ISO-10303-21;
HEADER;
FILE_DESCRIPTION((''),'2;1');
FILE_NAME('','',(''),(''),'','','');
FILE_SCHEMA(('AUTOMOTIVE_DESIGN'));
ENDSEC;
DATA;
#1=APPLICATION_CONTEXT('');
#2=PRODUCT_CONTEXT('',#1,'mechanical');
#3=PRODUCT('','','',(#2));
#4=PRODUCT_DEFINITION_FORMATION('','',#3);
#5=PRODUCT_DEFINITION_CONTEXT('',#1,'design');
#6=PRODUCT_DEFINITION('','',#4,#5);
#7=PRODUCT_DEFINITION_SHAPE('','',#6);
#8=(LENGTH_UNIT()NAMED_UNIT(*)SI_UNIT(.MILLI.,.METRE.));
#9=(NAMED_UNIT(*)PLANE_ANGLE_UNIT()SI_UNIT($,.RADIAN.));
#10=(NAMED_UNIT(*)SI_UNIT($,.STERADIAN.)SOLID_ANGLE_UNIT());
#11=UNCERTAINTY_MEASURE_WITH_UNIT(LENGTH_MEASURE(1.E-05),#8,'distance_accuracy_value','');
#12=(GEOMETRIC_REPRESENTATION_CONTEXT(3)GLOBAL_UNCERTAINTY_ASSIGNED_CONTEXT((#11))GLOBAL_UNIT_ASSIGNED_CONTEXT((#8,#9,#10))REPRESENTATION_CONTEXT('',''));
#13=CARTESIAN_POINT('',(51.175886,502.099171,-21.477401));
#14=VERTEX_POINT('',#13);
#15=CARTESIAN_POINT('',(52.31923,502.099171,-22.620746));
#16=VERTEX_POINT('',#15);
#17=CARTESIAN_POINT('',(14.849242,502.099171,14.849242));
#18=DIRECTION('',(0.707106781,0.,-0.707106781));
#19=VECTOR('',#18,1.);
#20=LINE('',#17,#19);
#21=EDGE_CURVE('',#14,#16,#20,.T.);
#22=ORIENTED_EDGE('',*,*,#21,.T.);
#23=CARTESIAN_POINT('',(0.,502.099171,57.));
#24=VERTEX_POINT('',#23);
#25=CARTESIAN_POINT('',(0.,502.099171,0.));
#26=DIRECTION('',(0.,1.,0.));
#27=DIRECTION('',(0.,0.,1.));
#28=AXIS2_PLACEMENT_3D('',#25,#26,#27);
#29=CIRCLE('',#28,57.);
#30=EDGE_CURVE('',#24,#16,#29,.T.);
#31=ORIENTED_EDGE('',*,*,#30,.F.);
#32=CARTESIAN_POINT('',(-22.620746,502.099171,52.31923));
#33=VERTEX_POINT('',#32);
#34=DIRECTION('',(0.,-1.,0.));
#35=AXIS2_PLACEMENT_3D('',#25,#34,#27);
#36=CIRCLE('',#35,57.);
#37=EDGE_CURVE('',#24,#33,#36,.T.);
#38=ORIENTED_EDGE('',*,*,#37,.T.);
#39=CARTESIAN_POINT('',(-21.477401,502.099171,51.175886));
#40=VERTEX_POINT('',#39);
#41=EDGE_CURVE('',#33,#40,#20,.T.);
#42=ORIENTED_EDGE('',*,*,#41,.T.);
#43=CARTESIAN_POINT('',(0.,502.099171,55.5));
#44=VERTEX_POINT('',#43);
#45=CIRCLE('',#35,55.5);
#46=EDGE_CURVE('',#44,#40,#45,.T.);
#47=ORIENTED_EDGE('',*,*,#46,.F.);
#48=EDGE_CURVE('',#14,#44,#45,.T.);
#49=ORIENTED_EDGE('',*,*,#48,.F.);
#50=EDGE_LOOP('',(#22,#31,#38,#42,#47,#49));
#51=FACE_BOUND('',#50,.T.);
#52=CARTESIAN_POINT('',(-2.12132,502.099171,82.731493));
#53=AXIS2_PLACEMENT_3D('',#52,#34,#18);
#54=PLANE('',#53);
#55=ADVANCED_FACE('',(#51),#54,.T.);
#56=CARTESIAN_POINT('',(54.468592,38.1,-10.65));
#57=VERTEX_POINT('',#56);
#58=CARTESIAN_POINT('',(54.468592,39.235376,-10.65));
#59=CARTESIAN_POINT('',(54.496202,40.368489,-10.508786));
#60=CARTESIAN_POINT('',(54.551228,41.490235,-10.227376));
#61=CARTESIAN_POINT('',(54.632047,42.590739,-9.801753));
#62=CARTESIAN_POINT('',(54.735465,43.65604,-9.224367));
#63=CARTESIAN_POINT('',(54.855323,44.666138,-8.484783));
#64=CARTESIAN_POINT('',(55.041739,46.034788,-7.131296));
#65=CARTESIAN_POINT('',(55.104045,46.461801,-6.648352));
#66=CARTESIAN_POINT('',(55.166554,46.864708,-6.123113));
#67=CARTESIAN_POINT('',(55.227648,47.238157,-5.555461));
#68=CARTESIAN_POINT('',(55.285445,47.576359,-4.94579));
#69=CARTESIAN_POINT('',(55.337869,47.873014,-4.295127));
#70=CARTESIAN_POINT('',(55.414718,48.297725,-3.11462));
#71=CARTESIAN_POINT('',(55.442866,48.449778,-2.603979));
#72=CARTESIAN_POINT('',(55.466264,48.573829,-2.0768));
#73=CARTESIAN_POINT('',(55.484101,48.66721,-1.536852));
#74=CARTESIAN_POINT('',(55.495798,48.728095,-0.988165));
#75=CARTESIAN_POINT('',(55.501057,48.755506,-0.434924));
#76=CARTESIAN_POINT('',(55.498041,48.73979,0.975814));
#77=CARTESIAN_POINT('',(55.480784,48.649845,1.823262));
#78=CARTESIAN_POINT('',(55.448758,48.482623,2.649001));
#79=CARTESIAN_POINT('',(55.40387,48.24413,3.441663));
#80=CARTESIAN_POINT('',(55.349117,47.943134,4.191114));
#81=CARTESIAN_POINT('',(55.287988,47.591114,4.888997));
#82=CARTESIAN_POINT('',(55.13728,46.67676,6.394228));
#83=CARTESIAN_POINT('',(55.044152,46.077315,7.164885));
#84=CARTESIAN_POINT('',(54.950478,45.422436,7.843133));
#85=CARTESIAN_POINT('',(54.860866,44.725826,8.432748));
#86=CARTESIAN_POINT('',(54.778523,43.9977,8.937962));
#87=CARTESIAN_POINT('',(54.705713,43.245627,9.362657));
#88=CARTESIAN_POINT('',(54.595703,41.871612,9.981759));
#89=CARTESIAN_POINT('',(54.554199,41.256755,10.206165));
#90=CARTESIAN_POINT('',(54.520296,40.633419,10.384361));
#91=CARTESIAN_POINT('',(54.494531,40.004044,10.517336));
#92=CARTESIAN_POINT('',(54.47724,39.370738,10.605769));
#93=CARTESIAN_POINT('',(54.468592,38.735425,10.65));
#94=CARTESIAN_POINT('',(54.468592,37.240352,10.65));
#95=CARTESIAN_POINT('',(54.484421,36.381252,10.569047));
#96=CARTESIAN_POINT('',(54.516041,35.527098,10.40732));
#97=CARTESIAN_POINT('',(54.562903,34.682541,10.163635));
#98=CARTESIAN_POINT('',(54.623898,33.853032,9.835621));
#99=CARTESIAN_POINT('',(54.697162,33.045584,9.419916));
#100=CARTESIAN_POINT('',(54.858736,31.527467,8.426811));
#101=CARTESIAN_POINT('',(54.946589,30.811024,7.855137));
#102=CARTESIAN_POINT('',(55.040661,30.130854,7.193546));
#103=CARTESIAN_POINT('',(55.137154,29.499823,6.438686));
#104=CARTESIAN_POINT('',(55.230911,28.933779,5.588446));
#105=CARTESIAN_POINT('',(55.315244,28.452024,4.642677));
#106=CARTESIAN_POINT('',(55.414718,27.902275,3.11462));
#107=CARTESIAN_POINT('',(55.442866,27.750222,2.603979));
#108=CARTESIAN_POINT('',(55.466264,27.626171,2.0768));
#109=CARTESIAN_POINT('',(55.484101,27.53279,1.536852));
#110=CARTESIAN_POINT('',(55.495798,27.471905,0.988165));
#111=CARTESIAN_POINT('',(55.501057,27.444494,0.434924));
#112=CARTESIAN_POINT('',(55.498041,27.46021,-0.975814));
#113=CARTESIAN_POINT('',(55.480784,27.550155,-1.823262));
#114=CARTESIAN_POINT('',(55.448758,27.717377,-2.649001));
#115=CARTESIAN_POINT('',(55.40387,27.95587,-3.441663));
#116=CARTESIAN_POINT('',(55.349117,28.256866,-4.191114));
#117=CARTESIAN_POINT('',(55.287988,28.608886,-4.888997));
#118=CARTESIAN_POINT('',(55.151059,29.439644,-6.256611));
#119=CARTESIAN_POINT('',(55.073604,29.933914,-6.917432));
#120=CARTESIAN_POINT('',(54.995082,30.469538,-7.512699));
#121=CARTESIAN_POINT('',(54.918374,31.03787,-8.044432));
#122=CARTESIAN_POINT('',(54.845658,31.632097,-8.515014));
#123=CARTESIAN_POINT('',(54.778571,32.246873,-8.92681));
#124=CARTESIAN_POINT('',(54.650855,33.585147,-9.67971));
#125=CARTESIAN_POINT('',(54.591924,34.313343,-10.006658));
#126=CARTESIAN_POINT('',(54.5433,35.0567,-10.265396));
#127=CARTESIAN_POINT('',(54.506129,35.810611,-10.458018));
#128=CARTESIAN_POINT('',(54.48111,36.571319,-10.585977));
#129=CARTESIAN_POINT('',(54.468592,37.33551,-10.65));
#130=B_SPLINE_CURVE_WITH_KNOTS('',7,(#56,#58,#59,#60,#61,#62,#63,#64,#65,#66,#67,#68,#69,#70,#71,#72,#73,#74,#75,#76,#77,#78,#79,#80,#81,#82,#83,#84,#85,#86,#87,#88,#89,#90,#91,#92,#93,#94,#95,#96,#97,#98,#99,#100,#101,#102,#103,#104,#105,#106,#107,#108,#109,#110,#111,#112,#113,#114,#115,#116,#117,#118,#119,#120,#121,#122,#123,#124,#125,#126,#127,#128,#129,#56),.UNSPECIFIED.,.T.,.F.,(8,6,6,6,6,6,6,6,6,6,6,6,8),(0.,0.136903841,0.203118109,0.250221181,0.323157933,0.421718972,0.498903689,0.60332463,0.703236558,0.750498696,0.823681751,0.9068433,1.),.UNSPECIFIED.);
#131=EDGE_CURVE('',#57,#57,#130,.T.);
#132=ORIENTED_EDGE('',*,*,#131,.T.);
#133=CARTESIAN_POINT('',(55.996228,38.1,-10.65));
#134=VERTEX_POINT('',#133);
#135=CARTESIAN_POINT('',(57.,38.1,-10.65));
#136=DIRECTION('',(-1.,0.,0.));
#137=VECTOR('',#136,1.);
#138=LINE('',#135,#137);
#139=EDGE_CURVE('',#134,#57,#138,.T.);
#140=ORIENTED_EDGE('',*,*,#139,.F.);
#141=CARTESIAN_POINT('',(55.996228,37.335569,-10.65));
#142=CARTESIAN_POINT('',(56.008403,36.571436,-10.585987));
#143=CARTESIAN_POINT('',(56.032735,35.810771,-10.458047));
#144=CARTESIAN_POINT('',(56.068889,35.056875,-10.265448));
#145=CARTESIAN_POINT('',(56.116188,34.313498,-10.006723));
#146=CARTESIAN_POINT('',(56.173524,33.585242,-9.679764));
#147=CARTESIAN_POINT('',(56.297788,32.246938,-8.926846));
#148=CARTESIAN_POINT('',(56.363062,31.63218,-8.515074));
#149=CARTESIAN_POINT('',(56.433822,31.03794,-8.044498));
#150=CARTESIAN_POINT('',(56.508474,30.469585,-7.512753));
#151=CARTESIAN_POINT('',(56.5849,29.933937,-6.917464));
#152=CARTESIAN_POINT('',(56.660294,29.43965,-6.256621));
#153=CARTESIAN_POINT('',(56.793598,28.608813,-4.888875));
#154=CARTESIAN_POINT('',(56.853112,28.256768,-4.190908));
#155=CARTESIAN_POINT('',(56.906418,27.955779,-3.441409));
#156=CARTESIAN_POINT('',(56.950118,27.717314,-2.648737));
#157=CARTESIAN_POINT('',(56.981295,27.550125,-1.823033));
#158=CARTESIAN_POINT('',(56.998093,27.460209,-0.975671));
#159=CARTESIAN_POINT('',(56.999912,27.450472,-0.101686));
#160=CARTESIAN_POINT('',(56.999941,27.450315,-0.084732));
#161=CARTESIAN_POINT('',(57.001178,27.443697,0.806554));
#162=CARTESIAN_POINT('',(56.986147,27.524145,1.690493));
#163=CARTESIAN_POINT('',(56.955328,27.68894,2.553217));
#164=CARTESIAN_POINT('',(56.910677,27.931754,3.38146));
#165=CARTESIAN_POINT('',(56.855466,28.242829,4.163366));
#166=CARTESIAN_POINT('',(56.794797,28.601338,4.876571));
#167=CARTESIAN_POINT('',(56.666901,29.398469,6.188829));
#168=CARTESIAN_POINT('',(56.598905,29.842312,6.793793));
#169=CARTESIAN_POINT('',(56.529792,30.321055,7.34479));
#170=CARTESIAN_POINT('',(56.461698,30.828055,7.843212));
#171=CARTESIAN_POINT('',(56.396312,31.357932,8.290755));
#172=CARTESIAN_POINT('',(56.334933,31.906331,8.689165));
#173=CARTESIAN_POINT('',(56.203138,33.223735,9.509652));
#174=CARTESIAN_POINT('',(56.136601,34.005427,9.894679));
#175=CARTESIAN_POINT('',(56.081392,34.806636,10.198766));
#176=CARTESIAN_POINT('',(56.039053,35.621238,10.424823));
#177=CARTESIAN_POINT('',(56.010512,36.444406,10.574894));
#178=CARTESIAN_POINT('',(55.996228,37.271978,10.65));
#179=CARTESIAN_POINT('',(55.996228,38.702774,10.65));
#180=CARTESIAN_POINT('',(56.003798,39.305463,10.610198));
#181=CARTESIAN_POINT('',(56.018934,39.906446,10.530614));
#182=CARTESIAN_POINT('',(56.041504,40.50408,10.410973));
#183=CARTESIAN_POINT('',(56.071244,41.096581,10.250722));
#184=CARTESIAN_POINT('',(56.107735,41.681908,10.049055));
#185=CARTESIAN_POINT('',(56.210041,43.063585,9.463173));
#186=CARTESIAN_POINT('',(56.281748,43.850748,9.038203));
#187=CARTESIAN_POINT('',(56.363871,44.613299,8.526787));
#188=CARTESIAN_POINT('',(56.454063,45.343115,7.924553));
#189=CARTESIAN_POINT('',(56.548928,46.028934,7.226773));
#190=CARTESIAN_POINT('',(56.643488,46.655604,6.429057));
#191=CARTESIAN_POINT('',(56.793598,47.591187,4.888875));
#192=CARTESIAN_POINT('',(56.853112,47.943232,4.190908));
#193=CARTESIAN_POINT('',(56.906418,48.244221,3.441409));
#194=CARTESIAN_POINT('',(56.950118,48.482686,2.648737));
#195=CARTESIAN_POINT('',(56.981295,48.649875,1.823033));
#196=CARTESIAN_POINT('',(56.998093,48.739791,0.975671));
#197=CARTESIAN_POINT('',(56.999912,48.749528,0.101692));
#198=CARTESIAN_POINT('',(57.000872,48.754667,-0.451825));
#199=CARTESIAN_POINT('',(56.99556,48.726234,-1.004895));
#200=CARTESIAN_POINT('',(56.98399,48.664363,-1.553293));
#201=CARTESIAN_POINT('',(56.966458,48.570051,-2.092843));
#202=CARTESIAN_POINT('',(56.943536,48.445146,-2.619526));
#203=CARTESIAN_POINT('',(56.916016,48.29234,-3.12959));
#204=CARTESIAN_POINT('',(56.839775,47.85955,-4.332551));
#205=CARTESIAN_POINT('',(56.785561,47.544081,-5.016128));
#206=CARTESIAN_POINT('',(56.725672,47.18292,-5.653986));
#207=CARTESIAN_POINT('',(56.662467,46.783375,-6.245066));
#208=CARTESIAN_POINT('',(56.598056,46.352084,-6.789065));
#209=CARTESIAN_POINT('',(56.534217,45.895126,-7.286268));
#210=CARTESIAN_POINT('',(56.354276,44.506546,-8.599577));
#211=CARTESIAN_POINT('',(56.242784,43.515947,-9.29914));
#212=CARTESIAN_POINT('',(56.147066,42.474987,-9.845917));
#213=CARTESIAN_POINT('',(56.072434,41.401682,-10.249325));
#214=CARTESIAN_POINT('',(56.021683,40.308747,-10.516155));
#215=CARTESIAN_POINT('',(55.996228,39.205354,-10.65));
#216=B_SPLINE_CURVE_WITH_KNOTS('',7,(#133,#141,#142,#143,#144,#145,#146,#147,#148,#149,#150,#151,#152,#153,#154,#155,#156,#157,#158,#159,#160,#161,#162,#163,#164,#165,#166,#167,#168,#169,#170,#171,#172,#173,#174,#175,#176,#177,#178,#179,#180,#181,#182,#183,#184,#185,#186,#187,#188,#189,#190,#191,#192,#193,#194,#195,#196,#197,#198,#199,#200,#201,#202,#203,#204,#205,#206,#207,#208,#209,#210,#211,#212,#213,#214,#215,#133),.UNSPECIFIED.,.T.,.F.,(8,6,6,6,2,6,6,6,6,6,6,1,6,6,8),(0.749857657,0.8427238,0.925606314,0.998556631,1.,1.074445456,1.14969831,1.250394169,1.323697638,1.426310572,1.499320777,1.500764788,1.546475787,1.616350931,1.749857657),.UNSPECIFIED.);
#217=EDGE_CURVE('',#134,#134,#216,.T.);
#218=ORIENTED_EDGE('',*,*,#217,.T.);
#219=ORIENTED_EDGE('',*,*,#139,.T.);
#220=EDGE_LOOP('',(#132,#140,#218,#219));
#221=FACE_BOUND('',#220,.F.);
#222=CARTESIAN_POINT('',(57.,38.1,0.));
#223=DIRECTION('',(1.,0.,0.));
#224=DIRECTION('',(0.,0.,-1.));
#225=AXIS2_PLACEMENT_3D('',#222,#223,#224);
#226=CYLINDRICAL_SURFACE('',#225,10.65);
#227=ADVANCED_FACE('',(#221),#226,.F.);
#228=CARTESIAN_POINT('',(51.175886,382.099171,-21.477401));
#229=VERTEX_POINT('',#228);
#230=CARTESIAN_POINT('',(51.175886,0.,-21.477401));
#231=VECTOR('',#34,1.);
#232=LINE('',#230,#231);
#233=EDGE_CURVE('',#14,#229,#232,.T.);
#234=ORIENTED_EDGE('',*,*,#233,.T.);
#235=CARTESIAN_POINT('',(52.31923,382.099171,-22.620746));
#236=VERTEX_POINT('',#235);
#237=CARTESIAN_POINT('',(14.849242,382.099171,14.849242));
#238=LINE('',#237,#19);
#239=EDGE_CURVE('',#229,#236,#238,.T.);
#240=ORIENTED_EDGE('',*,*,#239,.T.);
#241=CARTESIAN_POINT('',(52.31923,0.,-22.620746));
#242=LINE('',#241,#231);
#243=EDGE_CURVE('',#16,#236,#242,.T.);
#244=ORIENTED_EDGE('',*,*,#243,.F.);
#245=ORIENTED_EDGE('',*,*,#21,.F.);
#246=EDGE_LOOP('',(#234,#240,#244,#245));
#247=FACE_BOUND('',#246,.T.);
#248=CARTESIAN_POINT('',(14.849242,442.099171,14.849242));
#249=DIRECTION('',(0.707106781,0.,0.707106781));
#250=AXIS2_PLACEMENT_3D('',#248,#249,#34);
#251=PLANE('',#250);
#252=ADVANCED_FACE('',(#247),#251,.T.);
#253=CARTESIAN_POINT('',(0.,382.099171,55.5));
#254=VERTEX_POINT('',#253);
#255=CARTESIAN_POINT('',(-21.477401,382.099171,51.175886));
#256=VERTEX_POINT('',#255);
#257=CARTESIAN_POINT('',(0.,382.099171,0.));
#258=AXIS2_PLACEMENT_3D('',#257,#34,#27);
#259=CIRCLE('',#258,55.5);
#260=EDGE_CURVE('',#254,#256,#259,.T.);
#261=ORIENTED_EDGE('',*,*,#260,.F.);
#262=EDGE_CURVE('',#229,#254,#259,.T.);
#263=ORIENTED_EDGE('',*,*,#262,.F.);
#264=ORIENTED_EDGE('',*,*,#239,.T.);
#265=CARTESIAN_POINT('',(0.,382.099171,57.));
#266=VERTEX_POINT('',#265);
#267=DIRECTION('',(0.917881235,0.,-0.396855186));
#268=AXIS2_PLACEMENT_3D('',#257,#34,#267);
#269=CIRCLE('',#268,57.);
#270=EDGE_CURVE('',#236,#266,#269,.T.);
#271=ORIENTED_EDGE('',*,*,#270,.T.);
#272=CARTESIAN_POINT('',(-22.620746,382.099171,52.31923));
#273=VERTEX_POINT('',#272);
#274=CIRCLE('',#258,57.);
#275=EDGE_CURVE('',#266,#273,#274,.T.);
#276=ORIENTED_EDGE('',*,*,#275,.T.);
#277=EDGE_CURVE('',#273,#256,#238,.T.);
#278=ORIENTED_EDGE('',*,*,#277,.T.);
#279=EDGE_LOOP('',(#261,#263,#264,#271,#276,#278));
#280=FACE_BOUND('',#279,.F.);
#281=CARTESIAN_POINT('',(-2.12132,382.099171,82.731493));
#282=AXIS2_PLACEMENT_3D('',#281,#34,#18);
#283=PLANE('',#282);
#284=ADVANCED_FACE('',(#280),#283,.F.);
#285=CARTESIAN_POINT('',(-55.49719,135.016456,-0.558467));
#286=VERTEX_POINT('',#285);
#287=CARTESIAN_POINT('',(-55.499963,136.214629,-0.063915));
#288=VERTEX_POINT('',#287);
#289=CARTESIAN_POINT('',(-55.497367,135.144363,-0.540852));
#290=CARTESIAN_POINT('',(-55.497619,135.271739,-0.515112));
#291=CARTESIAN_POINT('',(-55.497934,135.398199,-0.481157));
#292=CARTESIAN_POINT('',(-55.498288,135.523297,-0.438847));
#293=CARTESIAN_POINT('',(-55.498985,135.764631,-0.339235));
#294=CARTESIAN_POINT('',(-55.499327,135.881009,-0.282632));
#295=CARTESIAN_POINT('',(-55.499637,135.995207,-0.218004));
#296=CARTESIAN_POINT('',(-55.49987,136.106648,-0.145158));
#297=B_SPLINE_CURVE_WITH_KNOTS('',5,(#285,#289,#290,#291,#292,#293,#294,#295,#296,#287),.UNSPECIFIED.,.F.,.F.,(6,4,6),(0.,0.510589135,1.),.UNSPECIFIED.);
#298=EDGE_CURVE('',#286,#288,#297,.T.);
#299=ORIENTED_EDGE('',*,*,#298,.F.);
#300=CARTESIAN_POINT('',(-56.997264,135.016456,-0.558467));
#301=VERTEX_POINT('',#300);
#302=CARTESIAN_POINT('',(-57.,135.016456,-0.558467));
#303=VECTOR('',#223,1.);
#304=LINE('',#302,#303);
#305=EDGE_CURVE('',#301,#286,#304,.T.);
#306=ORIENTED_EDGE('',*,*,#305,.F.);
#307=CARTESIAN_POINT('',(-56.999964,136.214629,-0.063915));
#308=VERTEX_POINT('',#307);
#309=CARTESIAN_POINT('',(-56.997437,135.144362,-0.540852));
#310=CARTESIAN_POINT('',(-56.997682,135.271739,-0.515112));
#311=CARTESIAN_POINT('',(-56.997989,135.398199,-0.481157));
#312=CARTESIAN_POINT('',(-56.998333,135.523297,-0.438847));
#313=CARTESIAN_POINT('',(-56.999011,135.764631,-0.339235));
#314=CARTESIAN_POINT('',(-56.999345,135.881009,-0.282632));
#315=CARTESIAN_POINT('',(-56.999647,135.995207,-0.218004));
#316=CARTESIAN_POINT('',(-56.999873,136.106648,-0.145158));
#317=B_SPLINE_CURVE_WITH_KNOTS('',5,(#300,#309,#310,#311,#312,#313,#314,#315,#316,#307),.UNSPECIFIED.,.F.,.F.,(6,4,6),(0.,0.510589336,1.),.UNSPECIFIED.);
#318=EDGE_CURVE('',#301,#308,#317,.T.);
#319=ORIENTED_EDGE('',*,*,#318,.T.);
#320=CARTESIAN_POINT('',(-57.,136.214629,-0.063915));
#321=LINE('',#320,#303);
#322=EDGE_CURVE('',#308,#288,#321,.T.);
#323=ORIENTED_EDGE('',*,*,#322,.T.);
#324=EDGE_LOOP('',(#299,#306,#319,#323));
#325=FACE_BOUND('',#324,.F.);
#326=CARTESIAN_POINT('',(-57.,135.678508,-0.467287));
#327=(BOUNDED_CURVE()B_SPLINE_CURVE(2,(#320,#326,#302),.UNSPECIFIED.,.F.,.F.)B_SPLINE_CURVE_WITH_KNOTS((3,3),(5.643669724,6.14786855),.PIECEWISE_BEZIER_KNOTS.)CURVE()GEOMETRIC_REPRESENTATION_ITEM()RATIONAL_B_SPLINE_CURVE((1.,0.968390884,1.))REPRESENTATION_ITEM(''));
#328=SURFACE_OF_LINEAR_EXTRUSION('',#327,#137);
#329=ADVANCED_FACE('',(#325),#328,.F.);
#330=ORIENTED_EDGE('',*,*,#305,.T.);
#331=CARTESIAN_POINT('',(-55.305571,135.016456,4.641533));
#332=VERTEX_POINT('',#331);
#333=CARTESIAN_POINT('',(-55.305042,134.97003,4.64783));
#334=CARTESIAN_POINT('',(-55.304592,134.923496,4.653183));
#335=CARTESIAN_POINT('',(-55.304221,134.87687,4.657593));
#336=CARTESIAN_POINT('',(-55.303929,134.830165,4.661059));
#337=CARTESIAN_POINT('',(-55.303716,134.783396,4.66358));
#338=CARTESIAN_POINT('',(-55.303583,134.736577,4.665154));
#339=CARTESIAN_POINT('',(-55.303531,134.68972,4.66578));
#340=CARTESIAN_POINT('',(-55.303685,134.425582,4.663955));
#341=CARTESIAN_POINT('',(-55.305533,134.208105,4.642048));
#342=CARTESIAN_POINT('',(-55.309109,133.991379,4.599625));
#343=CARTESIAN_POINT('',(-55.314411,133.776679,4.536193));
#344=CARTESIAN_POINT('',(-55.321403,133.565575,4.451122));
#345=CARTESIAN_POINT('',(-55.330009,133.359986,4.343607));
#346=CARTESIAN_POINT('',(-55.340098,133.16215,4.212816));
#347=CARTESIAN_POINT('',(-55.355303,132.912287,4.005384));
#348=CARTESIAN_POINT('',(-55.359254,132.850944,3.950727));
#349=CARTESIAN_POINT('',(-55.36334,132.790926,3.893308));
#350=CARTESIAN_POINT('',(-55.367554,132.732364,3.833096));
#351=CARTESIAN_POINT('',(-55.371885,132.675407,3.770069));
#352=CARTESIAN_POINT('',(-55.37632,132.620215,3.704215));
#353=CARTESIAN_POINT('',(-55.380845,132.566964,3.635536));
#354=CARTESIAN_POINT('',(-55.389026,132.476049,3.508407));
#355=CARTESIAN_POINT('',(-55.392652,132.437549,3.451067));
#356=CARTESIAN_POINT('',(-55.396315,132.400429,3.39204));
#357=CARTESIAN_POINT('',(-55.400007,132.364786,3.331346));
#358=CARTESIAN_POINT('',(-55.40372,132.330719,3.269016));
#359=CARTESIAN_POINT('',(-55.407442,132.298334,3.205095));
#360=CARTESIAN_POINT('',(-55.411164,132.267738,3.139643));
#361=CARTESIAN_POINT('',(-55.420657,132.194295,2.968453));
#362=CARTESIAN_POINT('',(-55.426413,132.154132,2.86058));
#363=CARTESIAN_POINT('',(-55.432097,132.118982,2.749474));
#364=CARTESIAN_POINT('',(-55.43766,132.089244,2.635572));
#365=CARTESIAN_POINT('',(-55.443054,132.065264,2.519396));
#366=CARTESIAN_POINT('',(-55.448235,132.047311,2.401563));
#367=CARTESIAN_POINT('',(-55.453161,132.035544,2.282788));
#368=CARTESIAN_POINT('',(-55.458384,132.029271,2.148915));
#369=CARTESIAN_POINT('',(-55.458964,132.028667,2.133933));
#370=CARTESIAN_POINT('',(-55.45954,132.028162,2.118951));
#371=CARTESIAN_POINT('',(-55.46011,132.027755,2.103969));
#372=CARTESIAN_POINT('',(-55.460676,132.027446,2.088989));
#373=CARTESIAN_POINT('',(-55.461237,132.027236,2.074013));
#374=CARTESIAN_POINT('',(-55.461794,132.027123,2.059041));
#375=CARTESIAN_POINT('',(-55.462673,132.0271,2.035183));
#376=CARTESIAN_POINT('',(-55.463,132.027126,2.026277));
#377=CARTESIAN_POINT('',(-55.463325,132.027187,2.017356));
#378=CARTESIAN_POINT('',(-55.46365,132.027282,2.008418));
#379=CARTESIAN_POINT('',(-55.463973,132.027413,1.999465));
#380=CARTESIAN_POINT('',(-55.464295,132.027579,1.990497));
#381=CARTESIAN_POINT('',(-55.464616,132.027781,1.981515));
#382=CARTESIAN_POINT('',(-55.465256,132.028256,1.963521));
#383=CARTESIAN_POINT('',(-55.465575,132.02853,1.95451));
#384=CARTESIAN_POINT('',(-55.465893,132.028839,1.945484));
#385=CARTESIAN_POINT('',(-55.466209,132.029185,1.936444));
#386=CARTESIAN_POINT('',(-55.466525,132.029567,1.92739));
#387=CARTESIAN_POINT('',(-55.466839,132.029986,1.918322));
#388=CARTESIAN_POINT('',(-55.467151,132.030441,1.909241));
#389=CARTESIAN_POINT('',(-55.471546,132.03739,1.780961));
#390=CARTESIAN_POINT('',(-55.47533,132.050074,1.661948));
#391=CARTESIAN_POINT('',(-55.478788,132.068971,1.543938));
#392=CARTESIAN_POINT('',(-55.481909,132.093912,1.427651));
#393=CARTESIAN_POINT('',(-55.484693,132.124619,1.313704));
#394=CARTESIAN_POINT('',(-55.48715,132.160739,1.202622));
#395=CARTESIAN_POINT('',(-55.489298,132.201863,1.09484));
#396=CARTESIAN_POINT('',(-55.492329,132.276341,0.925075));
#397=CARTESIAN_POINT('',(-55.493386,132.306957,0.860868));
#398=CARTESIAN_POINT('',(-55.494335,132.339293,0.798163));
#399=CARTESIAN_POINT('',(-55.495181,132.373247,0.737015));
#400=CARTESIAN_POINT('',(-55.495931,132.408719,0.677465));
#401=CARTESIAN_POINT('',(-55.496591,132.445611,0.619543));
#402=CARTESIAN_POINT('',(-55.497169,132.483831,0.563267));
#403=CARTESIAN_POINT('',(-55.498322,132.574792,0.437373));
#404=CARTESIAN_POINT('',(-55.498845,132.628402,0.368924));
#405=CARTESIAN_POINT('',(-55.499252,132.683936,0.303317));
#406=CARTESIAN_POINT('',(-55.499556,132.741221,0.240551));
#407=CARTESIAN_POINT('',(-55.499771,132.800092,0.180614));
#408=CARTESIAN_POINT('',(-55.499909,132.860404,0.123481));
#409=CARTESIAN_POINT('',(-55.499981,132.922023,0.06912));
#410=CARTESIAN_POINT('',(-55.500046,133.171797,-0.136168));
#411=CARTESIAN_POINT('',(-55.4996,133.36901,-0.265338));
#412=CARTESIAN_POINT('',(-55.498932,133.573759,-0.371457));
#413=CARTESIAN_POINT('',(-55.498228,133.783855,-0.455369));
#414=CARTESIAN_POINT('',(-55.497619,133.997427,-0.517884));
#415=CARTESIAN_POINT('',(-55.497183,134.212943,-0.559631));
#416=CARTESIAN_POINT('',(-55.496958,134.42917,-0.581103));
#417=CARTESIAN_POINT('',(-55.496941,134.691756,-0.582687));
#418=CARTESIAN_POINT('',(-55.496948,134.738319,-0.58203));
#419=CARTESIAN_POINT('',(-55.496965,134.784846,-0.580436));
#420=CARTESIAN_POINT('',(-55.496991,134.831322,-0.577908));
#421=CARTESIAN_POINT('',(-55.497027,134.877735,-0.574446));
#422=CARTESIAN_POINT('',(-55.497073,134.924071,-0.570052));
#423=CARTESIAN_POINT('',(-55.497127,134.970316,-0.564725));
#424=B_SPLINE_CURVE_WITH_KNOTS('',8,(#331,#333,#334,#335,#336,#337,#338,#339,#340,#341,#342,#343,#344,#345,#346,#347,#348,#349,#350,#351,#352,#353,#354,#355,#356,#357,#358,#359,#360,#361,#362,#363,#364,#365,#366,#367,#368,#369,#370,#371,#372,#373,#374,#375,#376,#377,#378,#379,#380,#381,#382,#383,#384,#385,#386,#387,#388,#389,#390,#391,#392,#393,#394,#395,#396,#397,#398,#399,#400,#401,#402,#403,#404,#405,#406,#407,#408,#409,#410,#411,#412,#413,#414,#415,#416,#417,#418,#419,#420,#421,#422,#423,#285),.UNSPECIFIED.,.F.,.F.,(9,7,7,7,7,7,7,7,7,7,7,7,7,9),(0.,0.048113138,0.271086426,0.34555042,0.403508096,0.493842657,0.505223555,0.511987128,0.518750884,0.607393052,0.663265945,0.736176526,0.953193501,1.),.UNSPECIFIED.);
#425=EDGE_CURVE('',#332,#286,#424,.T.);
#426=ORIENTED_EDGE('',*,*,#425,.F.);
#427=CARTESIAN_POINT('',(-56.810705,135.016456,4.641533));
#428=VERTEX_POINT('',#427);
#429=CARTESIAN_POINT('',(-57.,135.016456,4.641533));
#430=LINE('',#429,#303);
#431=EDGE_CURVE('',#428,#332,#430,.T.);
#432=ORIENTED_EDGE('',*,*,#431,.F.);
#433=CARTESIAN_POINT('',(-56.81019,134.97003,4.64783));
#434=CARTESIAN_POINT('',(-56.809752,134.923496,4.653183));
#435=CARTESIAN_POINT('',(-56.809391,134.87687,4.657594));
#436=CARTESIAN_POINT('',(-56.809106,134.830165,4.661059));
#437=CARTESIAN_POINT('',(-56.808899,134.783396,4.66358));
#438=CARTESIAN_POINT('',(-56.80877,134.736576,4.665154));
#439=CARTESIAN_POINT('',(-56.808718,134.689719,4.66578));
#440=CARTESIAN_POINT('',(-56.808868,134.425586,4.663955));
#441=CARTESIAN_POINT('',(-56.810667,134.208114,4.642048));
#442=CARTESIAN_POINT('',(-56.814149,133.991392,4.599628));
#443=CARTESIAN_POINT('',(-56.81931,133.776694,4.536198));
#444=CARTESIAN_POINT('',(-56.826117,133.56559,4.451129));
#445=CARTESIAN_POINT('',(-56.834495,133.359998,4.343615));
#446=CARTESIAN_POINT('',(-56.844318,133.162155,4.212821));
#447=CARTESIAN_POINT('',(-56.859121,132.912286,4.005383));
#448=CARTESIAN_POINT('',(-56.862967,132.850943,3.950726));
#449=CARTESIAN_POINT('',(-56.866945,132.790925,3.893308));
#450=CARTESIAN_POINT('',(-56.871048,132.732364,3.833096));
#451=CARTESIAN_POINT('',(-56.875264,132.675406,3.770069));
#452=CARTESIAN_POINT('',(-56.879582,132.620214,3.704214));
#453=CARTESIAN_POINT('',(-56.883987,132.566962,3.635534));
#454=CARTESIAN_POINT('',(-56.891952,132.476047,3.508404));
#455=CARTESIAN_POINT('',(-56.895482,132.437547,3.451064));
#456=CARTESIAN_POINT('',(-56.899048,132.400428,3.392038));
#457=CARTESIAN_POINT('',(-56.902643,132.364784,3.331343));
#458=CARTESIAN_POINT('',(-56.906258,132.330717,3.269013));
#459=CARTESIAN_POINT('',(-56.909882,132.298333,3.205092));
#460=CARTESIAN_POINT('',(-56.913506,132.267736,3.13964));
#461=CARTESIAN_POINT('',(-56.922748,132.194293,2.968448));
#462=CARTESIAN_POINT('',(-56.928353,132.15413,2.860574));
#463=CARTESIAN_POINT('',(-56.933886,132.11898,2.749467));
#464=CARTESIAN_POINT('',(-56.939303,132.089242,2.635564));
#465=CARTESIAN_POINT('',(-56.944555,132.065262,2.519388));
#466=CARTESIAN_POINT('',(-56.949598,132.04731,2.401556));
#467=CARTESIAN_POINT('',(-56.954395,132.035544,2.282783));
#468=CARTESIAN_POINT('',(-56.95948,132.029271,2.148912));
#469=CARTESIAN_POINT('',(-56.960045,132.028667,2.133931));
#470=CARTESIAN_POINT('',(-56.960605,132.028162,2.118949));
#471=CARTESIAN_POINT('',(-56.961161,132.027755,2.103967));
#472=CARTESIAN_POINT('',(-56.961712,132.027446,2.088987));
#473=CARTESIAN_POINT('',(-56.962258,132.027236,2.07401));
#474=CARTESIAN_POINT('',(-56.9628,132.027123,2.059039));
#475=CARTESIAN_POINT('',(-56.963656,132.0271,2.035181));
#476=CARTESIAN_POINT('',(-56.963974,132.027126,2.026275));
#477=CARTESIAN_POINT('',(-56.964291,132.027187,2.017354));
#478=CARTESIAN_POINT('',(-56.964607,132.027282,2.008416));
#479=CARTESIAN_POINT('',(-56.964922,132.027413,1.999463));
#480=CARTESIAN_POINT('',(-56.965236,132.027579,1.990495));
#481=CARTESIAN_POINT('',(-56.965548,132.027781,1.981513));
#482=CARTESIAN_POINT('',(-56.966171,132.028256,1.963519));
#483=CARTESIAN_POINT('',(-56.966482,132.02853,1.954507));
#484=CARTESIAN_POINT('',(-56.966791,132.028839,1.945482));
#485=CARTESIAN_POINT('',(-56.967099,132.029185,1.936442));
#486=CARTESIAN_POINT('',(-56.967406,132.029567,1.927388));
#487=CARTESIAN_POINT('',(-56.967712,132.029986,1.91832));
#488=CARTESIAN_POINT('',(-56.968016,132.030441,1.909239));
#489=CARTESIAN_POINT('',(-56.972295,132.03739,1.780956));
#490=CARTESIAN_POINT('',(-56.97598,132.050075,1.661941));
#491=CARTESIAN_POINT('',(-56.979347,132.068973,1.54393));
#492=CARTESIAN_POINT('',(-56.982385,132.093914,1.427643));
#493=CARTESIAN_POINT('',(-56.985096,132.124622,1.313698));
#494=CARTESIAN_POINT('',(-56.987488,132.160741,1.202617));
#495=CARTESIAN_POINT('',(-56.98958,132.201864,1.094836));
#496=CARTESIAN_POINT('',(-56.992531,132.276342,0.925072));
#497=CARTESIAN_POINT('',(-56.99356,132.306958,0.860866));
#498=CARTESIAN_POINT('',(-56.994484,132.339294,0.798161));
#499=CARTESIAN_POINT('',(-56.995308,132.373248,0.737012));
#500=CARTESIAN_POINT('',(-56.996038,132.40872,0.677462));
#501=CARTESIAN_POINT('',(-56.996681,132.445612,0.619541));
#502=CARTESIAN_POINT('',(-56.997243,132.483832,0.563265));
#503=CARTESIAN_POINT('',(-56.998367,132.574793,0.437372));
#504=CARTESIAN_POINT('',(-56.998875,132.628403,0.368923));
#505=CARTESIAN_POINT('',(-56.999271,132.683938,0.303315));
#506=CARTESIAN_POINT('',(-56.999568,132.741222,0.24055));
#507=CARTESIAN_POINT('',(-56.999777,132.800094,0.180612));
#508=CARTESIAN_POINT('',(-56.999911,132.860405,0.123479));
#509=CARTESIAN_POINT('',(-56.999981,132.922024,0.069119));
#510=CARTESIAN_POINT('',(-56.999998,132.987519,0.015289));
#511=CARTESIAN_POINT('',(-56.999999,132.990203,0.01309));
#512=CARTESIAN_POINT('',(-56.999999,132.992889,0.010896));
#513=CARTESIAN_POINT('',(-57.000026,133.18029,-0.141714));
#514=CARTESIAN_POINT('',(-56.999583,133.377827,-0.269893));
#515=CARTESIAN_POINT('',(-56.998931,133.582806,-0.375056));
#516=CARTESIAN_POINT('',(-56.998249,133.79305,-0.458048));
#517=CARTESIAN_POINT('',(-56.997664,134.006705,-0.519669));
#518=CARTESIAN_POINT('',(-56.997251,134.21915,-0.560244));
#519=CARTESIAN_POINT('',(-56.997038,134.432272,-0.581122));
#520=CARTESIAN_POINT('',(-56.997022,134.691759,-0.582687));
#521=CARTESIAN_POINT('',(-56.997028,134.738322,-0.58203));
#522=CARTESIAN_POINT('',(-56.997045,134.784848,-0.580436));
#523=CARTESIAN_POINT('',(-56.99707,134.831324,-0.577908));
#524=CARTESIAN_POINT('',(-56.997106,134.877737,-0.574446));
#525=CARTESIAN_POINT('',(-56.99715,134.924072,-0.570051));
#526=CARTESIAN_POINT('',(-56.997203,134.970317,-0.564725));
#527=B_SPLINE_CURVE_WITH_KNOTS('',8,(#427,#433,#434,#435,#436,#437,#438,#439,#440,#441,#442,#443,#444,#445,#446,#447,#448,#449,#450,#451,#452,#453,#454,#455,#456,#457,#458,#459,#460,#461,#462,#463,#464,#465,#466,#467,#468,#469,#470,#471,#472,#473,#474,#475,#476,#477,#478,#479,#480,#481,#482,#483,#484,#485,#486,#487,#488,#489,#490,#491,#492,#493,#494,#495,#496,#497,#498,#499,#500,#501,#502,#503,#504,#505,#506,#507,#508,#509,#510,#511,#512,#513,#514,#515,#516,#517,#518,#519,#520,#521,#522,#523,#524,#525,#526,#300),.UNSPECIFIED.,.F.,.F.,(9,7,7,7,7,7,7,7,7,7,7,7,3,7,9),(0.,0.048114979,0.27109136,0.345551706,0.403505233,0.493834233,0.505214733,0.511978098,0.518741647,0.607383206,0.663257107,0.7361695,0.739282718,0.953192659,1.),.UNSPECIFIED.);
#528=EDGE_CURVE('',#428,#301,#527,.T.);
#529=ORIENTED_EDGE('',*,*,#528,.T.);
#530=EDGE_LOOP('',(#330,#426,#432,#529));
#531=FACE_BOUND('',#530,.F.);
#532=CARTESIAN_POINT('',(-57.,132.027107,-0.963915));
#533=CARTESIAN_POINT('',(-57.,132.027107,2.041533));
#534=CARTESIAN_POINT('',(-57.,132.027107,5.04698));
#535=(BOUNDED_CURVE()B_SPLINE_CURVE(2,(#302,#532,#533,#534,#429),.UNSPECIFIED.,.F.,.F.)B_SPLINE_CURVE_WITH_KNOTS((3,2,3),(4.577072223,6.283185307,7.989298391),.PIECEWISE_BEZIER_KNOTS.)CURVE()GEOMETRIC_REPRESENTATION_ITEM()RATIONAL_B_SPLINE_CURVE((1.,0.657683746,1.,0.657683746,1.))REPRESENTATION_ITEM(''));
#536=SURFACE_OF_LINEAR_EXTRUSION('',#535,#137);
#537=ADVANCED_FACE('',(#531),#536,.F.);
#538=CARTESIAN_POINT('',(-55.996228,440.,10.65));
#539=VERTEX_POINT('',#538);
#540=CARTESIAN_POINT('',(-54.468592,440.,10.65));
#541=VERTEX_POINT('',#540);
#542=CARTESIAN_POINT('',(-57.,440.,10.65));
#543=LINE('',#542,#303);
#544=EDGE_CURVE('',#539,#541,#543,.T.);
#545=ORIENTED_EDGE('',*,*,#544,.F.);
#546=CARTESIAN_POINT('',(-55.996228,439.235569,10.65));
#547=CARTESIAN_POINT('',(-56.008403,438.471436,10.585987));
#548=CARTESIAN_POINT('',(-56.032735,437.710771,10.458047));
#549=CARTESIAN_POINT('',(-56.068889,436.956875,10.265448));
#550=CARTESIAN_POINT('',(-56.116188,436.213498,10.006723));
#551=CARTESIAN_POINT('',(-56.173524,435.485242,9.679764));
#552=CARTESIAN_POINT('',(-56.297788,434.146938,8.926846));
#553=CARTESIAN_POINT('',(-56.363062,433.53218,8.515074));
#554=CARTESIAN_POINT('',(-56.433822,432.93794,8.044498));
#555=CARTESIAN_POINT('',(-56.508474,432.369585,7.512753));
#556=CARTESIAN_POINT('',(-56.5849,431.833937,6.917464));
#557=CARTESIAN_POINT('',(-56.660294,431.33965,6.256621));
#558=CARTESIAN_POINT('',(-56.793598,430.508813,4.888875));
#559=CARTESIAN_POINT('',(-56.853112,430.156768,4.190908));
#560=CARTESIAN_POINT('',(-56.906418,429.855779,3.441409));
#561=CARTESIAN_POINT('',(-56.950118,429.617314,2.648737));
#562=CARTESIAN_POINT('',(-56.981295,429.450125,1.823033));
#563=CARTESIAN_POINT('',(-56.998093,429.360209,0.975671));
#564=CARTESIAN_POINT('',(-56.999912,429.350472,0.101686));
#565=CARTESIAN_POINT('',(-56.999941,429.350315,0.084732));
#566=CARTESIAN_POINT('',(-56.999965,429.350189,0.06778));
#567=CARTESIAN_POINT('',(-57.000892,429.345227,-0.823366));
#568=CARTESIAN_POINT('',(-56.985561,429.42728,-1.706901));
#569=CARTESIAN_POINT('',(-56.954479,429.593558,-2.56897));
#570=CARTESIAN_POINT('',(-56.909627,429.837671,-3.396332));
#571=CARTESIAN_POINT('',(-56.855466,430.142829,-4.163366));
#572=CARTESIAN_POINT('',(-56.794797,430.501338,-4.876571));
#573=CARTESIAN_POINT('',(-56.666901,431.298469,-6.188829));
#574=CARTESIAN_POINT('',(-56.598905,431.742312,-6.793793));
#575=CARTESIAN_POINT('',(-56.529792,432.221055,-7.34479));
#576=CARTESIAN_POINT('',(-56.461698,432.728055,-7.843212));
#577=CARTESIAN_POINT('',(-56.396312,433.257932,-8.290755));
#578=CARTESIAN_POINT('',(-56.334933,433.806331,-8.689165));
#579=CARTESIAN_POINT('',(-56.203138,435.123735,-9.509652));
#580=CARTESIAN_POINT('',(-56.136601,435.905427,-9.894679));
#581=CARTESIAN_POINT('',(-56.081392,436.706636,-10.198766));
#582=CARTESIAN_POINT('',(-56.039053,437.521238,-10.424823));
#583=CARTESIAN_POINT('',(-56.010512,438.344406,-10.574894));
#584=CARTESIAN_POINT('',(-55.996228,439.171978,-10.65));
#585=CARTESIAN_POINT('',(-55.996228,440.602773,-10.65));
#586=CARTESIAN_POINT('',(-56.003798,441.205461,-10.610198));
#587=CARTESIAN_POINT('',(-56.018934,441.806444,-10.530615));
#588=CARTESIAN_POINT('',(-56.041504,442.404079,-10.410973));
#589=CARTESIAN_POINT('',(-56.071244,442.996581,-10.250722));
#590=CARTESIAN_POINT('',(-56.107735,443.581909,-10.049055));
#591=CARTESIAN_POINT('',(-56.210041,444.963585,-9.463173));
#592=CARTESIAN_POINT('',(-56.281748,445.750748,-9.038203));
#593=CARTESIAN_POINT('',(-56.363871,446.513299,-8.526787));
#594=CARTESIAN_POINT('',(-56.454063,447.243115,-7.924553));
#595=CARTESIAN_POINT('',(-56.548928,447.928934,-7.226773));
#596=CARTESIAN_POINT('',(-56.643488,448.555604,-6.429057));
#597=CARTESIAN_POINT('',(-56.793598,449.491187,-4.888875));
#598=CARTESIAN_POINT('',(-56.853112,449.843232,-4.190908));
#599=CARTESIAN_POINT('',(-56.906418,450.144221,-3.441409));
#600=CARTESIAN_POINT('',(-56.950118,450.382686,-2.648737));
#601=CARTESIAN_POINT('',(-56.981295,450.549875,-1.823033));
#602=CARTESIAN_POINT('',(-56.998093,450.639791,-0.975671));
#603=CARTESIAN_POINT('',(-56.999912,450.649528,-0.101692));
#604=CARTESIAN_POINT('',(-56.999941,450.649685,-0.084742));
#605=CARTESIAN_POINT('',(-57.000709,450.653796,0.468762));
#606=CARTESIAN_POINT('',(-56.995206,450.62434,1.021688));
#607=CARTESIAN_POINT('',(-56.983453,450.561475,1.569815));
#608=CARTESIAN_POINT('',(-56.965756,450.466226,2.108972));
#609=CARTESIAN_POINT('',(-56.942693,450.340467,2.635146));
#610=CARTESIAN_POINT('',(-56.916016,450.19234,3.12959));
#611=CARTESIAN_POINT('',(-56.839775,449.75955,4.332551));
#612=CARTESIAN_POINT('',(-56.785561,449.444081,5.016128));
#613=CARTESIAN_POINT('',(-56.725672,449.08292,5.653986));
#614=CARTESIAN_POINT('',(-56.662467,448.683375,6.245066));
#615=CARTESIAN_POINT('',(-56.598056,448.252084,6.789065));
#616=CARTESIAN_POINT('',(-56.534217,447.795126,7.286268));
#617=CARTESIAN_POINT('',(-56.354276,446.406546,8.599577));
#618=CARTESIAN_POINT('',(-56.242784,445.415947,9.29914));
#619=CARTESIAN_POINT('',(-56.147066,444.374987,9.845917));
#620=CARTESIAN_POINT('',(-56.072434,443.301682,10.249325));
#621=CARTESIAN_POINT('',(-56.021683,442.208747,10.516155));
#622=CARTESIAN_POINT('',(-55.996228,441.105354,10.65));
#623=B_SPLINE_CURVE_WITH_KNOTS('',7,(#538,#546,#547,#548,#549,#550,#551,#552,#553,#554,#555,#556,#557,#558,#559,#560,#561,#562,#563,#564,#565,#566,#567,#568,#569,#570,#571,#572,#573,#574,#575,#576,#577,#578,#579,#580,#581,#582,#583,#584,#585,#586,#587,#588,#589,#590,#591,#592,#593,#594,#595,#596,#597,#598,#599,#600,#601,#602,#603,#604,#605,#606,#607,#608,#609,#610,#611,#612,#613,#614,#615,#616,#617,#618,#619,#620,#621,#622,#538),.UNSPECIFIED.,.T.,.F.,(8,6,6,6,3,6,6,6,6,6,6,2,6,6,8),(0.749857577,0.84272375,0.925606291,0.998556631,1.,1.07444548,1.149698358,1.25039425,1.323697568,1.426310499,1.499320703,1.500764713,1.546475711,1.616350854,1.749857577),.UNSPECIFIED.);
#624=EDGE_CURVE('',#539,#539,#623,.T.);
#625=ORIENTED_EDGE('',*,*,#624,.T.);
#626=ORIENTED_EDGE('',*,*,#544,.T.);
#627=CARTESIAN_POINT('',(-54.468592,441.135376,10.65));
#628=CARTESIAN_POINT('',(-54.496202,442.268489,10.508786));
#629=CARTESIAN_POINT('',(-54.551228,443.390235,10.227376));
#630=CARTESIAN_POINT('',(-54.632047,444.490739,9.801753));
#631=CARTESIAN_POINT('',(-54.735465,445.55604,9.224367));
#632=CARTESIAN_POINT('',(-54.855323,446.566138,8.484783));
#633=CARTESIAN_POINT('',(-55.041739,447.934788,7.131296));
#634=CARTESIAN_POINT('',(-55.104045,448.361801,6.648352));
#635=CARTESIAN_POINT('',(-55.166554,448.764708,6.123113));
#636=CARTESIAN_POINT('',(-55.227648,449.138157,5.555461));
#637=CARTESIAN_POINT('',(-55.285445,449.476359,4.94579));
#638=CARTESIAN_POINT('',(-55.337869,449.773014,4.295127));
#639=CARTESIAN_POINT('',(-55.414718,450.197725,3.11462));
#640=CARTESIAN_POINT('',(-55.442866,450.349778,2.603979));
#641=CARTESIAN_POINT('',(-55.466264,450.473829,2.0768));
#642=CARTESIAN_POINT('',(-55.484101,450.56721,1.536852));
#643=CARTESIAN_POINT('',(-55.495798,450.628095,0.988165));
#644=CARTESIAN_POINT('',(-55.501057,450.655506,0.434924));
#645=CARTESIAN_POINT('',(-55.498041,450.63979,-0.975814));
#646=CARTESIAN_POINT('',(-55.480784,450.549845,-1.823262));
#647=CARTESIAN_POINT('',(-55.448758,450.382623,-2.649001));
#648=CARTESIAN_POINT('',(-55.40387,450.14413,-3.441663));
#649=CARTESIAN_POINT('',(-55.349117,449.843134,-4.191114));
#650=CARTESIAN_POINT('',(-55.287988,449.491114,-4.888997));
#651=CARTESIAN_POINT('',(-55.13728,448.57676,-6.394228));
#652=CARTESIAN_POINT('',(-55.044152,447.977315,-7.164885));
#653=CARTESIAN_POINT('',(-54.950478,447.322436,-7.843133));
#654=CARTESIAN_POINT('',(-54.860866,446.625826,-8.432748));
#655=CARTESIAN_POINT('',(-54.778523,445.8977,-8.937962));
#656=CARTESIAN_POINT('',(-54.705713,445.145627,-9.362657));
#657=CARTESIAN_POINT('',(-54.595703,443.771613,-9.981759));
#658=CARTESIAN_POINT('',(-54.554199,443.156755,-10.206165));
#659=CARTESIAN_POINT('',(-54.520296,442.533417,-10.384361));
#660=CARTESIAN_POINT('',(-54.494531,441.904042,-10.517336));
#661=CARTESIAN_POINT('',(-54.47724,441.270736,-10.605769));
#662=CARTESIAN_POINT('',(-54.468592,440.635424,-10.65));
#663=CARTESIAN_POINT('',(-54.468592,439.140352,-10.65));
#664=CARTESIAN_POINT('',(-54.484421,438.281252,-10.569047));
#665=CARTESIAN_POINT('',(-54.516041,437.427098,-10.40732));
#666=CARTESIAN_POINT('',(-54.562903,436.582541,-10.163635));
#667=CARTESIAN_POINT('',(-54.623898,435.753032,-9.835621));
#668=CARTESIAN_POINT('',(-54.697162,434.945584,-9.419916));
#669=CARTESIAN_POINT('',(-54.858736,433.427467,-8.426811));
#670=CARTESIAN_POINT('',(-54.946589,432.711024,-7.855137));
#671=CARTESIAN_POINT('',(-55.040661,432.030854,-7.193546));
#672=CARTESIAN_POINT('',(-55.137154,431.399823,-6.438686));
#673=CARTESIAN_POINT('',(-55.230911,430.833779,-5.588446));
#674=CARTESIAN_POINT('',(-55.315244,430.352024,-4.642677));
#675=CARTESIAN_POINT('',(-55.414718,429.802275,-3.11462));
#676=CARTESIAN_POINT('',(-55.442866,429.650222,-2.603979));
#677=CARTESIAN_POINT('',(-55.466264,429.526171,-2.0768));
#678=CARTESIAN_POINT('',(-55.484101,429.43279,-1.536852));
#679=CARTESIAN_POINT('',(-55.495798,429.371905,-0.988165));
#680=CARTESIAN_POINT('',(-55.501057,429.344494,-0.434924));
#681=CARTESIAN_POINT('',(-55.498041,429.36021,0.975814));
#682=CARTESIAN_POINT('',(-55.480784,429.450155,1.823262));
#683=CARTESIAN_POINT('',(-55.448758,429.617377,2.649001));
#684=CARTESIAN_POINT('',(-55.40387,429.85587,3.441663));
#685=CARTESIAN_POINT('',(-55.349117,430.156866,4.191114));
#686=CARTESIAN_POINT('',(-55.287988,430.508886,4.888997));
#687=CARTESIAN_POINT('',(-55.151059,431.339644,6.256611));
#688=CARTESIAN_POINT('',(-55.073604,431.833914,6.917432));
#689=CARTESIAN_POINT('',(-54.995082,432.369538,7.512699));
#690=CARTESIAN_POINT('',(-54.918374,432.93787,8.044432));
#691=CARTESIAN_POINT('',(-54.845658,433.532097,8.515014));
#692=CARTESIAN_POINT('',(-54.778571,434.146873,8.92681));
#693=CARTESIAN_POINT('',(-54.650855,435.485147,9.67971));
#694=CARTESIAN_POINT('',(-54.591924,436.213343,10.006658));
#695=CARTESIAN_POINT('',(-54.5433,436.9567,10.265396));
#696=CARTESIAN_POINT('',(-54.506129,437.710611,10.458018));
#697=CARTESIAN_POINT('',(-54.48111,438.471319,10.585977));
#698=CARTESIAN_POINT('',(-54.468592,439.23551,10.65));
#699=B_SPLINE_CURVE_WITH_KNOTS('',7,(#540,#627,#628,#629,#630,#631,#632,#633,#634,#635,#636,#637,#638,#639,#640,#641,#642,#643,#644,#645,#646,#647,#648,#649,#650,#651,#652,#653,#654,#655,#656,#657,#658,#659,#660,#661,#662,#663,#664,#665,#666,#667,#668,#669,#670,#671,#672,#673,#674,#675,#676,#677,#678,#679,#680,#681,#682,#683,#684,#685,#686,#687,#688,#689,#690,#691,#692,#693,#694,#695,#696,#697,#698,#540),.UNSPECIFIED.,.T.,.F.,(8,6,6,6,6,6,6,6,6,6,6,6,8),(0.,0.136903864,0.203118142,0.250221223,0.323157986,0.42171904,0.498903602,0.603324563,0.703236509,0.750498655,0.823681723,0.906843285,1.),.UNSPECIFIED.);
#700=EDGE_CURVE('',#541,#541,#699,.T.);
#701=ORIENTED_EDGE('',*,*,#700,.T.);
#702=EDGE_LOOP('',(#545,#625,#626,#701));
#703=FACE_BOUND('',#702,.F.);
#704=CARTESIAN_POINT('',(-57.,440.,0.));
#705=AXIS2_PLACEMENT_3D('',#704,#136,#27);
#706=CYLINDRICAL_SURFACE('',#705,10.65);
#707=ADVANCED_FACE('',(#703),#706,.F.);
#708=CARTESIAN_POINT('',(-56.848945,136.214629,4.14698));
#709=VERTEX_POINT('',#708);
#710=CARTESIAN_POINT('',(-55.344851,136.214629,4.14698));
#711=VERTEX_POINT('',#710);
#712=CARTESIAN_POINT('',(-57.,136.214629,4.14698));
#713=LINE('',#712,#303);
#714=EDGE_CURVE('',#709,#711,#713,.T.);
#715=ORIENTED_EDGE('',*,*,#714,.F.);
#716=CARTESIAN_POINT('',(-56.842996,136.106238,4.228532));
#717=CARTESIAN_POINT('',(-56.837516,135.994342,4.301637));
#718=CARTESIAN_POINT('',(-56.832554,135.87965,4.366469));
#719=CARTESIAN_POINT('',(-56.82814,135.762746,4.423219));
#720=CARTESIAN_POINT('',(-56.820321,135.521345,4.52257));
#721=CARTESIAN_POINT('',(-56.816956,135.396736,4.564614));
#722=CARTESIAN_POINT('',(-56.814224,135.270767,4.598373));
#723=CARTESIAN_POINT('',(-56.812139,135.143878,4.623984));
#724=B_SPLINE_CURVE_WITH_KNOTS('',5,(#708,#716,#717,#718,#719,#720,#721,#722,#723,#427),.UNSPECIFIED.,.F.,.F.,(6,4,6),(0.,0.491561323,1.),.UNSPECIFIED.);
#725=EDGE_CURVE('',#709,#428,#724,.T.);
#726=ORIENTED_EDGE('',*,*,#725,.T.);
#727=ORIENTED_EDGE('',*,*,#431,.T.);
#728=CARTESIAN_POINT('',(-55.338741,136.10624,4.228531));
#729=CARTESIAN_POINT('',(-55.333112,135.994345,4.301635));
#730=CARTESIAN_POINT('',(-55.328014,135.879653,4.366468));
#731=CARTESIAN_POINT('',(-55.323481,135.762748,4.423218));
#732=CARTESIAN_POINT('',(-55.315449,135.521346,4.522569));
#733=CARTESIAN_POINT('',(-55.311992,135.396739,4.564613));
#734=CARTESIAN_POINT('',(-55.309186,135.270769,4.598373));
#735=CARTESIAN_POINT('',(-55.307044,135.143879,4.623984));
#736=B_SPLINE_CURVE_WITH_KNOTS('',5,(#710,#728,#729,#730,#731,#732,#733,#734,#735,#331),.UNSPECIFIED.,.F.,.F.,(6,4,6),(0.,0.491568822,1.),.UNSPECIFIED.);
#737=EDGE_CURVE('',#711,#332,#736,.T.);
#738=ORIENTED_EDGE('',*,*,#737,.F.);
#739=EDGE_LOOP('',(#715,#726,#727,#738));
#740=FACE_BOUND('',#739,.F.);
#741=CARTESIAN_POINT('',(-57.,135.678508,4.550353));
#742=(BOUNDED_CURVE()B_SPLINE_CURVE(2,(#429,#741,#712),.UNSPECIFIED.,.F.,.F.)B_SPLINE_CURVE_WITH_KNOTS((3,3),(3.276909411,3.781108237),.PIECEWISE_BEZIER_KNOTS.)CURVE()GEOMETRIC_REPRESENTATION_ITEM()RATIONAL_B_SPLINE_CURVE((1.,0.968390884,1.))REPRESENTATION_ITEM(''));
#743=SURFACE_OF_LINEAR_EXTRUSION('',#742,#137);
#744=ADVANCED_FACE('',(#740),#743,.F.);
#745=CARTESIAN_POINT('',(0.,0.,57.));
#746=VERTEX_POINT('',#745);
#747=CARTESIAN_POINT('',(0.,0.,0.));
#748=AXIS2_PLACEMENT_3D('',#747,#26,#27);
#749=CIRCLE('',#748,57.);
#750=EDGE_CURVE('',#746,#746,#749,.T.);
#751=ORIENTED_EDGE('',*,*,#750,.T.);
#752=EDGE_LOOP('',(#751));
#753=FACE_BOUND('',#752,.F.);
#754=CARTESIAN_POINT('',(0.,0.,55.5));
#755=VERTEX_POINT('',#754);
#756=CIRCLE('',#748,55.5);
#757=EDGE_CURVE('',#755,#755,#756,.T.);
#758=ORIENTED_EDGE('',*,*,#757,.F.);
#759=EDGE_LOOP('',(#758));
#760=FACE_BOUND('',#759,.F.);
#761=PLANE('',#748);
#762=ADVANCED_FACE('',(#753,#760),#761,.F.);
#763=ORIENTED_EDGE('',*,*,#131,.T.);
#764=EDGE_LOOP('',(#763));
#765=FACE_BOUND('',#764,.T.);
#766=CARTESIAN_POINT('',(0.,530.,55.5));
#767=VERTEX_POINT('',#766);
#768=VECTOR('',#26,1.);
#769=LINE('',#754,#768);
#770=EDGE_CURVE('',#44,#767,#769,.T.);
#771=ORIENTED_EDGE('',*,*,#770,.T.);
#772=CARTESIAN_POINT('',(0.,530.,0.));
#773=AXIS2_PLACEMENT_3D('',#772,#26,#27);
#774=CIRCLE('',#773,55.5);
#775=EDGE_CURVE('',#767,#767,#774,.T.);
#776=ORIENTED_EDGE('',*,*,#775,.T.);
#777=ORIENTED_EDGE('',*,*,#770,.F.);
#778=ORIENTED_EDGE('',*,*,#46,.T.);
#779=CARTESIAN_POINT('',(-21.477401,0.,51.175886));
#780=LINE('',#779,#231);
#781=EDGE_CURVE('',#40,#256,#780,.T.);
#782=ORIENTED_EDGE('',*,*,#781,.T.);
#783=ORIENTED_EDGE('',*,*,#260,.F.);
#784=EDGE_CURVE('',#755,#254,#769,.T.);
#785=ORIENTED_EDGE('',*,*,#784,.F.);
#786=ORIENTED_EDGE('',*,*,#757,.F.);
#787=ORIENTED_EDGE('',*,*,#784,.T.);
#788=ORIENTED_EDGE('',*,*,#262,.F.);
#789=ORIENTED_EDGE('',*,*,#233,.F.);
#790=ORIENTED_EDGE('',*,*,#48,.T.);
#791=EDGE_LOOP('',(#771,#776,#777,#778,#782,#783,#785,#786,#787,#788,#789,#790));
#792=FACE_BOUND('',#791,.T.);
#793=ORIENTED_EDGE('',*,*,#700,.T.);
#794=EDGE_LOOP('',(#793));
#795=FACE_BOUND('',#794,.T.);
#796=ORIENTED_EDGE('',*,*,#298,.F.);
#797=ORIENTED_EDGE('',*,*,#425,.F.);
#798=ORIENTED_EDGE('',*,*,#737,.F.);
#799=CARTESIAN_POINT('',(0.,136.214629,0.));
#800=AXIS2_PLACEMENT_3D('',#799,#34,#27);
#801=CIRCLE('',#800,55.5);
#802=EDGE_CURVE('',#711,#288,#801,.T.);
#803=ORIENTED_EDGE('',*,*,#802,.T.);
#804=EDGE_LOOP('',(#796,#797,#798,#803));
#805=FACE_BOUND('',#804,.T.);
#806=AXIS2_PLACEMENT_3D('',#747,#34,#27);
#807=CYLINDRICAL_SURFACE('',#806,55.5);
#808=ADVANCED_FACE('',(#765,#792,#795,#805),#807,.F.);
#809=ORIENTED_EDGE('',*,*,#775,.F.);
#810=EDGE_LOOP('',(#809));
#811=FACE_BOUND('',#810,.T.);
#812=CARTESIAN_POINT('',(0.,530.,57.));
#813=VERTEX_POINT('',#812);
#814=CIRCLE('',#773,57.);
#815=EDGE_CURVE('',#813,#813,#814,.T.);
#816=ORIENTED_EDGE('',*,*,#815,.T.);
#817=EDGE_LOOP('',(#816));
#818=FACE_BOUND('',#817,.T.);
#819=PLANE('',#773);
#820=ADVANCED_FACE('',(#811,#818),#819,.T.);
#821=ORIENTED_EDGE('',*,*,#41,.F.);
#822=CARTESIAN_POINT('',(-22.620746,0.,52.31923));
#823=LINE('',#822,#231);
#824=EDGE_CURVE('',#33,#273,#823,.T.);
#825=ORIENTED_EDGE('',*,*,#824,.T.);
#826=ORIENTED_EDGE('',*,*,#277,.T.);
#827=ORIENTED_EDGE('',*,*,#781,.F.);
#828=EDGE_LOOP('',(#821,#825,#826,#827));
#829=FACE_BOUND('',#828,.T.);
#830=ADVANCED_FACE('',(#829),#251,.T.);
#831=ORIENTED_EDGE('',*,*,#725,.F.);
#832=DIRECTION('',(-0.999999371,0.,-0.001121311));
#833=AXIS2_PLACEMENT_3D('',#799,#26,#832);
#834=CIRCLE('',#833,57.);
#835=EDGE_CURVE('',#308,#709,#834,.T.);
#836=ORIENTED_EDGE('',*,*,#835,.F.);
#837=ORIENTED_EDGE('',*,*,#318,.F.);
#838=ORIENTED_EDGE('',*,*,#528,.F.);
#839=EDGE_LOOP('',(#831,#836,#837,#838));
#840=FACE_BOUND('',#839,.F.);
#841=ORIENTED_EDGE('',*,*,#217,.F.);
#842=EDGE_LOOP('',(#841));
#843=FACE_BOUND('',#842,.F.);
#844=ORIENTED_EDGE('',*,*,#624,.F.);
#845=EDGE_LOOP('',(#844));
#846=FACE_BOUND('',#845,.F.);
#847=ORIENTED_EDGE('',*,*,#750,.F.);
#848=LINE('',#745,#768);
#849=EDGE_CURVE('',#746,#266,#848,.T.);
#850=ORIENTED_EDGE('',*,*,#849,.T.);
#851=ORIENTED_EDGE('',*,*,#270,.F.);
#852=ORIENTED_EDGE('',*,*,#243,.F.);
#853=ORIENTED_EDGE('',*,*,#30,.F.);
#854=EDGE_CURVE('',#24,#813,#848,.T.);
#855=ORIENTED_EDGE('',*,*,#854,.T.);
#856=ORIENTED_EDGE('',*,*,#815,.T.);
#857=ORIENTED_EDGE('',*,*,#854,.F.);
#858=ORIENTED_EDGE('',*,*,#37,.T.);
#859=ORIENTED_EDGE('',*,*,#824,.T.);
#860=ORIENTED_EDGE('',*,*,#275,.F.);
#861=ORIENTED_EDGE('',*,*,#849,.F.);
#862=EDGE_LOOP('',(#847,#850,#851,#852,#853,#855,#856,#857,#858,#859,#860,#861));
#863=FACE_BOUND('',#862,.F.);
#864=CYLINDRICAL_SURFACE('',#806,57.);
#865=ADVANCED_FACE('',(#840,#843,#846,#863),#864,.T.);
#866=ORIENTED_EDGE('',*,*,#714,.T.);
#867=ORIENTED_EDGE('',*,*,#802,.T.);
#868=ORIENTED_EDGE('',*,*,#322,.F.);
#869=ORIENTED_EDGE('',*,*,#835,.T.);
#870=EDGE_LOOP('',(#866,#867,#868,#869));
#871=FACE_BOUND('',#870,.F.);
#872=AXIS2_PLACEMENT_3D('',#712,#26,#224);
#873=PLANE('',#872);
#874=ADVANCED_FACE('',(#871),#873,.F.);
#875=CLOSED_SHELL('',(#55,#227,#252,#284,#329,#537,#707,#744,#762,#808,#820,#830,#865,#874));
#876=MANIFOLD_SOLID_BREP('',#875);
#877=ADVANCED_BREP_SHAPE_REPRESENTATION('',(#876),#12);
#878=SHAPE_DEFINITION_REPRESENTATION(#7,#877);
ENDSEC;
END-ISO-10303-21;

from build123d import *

# Parameters (mm, degrees)
CROQUIS1_R              = 57
CROQUIS1_R_2            = 55.5
SALIENTE_EXTRUIR1_DEPTH = 530
CROQUIS2_R              = 10.65
CORTAR_EXTRUIR1_DEPTH   = 10
CROQUIS3_R              = 10.65
CORTAR_EXTRUIR3_DEPTH   = 10
CROQUIS4_W              = 120
CROQUIS4_H              = 120
CORTAR_EXTRUIR4_DEPTH   = 36
CORTAR_EXTRUIR5_DEPTH   = 36


with BuildPart() as part:
    # Croquis1 → Saliente-Extruir1 (new body)
    with BuildSketch(Plane(origin=(0, 0, 0), x_dir=(1, 0, 0), z_dir=(0, 1, 0))):
        with Locations(Location((0, 0, 0), (0, 0, 270))):
            Circle(CROQUIS1_R)
        with Locations(Location((0, 0, 0), (0, 0, 270))):
            Circle(CROQUIS1_R_2, mode=Mode.SUBTRACT)
    extrude(amount=SALIENTE_EXTRUIR1_DEPTH)

    # Croquis2 → Cortar-Extruir1 (cut)
    with BuildSketch(Plane.ZY.offset(57)):
        with Locations((0, 440)):
            Circle(CROQUIS2_R)
    extrude(amount=-CORTAR_EXTRUIR1_DEPTH, mode=Mode.SUBTRACT)

    # Croquis3 → Cortar-Extruir3 (cut)
    with BuildSketch(Plane(origin=(57, 0, 0), x_dir=(0, 0, -1), z_dir=(1, 0, 0))):
        with Locations((0, 38.1)):
            Circle(CROQUIS3_R)
    extrude(amount=-CORTAR_EXTRUIR3_DEPTH, mode=Mode.SUBTRACT)

    # Croquis4 → Cortar-Extruir4 (cut)
    with BuildSketch(Plane(origin=(40.305086528, 0, 40.305086528), x_dir=(0, -1, 0), z_dir=(0.7071067811865464, 0, 0.7071067811865488))):
        with Locations((-442.099170551, 0)):
            Rectangle(CROQUIS4_W, CROQUIS4_H)
    extrude(amount=-CORTAR_EXTRUIR4_DEPTH, mode=Mode.SUBTRACT)

    # Croquis6 → Cortar-Extruir5 (cut)
    with BuildSketch(Plane.ZY.offset(57)):
        with BuildLine():
            Line((4.146980327, 136.214628742), (-0.063914709, 136.214628742))
            add(Edge.make_bspline(
                [(-0.063914709, 136.214628742), (-0.467287481, 135.678507753), (-0.558467191, 135.016456308)],
                knots=[5.643669724, 5.643669724, 5.643669724, 6.14786855, 6.14786855, 6.14786855], degree=2, weights=[1, 0.968390884, 1]))
            add(Edge.make_bspline(
                [(-0.558467191, 135.016456308), (-0.963914609, 132.027107364), (2.041532809, 132.027107364), (5.046980227, 132.027107364), (4.641532809, 135.016456308)],
                knots=[4.577072223, 4.577072223, 4.577072223, 6.283185307, 6.283185307, 7.989298391, 7.989298391, 7.989298391], degree=2, weights=[1, 0.657683746, 1, 0.657683746, 1]))
            add(Edge.make_bspline(
                [(4.641532809, 135.016456308), (4.550353099, 135.678507753), (4.146980327, 136.214628742)],
                knots=[3.276909411, 3.276909411, 3.276909411, 3.781108237, 3.781108237, 3.781108237], degree=2, weights=[1, 0.968390884, 1]))
        make_face()
    extrude(amount=-CORTAR_EXTRUIR5_DEPTH, mode=Mode.SUBTRACT)


solid = part.part
